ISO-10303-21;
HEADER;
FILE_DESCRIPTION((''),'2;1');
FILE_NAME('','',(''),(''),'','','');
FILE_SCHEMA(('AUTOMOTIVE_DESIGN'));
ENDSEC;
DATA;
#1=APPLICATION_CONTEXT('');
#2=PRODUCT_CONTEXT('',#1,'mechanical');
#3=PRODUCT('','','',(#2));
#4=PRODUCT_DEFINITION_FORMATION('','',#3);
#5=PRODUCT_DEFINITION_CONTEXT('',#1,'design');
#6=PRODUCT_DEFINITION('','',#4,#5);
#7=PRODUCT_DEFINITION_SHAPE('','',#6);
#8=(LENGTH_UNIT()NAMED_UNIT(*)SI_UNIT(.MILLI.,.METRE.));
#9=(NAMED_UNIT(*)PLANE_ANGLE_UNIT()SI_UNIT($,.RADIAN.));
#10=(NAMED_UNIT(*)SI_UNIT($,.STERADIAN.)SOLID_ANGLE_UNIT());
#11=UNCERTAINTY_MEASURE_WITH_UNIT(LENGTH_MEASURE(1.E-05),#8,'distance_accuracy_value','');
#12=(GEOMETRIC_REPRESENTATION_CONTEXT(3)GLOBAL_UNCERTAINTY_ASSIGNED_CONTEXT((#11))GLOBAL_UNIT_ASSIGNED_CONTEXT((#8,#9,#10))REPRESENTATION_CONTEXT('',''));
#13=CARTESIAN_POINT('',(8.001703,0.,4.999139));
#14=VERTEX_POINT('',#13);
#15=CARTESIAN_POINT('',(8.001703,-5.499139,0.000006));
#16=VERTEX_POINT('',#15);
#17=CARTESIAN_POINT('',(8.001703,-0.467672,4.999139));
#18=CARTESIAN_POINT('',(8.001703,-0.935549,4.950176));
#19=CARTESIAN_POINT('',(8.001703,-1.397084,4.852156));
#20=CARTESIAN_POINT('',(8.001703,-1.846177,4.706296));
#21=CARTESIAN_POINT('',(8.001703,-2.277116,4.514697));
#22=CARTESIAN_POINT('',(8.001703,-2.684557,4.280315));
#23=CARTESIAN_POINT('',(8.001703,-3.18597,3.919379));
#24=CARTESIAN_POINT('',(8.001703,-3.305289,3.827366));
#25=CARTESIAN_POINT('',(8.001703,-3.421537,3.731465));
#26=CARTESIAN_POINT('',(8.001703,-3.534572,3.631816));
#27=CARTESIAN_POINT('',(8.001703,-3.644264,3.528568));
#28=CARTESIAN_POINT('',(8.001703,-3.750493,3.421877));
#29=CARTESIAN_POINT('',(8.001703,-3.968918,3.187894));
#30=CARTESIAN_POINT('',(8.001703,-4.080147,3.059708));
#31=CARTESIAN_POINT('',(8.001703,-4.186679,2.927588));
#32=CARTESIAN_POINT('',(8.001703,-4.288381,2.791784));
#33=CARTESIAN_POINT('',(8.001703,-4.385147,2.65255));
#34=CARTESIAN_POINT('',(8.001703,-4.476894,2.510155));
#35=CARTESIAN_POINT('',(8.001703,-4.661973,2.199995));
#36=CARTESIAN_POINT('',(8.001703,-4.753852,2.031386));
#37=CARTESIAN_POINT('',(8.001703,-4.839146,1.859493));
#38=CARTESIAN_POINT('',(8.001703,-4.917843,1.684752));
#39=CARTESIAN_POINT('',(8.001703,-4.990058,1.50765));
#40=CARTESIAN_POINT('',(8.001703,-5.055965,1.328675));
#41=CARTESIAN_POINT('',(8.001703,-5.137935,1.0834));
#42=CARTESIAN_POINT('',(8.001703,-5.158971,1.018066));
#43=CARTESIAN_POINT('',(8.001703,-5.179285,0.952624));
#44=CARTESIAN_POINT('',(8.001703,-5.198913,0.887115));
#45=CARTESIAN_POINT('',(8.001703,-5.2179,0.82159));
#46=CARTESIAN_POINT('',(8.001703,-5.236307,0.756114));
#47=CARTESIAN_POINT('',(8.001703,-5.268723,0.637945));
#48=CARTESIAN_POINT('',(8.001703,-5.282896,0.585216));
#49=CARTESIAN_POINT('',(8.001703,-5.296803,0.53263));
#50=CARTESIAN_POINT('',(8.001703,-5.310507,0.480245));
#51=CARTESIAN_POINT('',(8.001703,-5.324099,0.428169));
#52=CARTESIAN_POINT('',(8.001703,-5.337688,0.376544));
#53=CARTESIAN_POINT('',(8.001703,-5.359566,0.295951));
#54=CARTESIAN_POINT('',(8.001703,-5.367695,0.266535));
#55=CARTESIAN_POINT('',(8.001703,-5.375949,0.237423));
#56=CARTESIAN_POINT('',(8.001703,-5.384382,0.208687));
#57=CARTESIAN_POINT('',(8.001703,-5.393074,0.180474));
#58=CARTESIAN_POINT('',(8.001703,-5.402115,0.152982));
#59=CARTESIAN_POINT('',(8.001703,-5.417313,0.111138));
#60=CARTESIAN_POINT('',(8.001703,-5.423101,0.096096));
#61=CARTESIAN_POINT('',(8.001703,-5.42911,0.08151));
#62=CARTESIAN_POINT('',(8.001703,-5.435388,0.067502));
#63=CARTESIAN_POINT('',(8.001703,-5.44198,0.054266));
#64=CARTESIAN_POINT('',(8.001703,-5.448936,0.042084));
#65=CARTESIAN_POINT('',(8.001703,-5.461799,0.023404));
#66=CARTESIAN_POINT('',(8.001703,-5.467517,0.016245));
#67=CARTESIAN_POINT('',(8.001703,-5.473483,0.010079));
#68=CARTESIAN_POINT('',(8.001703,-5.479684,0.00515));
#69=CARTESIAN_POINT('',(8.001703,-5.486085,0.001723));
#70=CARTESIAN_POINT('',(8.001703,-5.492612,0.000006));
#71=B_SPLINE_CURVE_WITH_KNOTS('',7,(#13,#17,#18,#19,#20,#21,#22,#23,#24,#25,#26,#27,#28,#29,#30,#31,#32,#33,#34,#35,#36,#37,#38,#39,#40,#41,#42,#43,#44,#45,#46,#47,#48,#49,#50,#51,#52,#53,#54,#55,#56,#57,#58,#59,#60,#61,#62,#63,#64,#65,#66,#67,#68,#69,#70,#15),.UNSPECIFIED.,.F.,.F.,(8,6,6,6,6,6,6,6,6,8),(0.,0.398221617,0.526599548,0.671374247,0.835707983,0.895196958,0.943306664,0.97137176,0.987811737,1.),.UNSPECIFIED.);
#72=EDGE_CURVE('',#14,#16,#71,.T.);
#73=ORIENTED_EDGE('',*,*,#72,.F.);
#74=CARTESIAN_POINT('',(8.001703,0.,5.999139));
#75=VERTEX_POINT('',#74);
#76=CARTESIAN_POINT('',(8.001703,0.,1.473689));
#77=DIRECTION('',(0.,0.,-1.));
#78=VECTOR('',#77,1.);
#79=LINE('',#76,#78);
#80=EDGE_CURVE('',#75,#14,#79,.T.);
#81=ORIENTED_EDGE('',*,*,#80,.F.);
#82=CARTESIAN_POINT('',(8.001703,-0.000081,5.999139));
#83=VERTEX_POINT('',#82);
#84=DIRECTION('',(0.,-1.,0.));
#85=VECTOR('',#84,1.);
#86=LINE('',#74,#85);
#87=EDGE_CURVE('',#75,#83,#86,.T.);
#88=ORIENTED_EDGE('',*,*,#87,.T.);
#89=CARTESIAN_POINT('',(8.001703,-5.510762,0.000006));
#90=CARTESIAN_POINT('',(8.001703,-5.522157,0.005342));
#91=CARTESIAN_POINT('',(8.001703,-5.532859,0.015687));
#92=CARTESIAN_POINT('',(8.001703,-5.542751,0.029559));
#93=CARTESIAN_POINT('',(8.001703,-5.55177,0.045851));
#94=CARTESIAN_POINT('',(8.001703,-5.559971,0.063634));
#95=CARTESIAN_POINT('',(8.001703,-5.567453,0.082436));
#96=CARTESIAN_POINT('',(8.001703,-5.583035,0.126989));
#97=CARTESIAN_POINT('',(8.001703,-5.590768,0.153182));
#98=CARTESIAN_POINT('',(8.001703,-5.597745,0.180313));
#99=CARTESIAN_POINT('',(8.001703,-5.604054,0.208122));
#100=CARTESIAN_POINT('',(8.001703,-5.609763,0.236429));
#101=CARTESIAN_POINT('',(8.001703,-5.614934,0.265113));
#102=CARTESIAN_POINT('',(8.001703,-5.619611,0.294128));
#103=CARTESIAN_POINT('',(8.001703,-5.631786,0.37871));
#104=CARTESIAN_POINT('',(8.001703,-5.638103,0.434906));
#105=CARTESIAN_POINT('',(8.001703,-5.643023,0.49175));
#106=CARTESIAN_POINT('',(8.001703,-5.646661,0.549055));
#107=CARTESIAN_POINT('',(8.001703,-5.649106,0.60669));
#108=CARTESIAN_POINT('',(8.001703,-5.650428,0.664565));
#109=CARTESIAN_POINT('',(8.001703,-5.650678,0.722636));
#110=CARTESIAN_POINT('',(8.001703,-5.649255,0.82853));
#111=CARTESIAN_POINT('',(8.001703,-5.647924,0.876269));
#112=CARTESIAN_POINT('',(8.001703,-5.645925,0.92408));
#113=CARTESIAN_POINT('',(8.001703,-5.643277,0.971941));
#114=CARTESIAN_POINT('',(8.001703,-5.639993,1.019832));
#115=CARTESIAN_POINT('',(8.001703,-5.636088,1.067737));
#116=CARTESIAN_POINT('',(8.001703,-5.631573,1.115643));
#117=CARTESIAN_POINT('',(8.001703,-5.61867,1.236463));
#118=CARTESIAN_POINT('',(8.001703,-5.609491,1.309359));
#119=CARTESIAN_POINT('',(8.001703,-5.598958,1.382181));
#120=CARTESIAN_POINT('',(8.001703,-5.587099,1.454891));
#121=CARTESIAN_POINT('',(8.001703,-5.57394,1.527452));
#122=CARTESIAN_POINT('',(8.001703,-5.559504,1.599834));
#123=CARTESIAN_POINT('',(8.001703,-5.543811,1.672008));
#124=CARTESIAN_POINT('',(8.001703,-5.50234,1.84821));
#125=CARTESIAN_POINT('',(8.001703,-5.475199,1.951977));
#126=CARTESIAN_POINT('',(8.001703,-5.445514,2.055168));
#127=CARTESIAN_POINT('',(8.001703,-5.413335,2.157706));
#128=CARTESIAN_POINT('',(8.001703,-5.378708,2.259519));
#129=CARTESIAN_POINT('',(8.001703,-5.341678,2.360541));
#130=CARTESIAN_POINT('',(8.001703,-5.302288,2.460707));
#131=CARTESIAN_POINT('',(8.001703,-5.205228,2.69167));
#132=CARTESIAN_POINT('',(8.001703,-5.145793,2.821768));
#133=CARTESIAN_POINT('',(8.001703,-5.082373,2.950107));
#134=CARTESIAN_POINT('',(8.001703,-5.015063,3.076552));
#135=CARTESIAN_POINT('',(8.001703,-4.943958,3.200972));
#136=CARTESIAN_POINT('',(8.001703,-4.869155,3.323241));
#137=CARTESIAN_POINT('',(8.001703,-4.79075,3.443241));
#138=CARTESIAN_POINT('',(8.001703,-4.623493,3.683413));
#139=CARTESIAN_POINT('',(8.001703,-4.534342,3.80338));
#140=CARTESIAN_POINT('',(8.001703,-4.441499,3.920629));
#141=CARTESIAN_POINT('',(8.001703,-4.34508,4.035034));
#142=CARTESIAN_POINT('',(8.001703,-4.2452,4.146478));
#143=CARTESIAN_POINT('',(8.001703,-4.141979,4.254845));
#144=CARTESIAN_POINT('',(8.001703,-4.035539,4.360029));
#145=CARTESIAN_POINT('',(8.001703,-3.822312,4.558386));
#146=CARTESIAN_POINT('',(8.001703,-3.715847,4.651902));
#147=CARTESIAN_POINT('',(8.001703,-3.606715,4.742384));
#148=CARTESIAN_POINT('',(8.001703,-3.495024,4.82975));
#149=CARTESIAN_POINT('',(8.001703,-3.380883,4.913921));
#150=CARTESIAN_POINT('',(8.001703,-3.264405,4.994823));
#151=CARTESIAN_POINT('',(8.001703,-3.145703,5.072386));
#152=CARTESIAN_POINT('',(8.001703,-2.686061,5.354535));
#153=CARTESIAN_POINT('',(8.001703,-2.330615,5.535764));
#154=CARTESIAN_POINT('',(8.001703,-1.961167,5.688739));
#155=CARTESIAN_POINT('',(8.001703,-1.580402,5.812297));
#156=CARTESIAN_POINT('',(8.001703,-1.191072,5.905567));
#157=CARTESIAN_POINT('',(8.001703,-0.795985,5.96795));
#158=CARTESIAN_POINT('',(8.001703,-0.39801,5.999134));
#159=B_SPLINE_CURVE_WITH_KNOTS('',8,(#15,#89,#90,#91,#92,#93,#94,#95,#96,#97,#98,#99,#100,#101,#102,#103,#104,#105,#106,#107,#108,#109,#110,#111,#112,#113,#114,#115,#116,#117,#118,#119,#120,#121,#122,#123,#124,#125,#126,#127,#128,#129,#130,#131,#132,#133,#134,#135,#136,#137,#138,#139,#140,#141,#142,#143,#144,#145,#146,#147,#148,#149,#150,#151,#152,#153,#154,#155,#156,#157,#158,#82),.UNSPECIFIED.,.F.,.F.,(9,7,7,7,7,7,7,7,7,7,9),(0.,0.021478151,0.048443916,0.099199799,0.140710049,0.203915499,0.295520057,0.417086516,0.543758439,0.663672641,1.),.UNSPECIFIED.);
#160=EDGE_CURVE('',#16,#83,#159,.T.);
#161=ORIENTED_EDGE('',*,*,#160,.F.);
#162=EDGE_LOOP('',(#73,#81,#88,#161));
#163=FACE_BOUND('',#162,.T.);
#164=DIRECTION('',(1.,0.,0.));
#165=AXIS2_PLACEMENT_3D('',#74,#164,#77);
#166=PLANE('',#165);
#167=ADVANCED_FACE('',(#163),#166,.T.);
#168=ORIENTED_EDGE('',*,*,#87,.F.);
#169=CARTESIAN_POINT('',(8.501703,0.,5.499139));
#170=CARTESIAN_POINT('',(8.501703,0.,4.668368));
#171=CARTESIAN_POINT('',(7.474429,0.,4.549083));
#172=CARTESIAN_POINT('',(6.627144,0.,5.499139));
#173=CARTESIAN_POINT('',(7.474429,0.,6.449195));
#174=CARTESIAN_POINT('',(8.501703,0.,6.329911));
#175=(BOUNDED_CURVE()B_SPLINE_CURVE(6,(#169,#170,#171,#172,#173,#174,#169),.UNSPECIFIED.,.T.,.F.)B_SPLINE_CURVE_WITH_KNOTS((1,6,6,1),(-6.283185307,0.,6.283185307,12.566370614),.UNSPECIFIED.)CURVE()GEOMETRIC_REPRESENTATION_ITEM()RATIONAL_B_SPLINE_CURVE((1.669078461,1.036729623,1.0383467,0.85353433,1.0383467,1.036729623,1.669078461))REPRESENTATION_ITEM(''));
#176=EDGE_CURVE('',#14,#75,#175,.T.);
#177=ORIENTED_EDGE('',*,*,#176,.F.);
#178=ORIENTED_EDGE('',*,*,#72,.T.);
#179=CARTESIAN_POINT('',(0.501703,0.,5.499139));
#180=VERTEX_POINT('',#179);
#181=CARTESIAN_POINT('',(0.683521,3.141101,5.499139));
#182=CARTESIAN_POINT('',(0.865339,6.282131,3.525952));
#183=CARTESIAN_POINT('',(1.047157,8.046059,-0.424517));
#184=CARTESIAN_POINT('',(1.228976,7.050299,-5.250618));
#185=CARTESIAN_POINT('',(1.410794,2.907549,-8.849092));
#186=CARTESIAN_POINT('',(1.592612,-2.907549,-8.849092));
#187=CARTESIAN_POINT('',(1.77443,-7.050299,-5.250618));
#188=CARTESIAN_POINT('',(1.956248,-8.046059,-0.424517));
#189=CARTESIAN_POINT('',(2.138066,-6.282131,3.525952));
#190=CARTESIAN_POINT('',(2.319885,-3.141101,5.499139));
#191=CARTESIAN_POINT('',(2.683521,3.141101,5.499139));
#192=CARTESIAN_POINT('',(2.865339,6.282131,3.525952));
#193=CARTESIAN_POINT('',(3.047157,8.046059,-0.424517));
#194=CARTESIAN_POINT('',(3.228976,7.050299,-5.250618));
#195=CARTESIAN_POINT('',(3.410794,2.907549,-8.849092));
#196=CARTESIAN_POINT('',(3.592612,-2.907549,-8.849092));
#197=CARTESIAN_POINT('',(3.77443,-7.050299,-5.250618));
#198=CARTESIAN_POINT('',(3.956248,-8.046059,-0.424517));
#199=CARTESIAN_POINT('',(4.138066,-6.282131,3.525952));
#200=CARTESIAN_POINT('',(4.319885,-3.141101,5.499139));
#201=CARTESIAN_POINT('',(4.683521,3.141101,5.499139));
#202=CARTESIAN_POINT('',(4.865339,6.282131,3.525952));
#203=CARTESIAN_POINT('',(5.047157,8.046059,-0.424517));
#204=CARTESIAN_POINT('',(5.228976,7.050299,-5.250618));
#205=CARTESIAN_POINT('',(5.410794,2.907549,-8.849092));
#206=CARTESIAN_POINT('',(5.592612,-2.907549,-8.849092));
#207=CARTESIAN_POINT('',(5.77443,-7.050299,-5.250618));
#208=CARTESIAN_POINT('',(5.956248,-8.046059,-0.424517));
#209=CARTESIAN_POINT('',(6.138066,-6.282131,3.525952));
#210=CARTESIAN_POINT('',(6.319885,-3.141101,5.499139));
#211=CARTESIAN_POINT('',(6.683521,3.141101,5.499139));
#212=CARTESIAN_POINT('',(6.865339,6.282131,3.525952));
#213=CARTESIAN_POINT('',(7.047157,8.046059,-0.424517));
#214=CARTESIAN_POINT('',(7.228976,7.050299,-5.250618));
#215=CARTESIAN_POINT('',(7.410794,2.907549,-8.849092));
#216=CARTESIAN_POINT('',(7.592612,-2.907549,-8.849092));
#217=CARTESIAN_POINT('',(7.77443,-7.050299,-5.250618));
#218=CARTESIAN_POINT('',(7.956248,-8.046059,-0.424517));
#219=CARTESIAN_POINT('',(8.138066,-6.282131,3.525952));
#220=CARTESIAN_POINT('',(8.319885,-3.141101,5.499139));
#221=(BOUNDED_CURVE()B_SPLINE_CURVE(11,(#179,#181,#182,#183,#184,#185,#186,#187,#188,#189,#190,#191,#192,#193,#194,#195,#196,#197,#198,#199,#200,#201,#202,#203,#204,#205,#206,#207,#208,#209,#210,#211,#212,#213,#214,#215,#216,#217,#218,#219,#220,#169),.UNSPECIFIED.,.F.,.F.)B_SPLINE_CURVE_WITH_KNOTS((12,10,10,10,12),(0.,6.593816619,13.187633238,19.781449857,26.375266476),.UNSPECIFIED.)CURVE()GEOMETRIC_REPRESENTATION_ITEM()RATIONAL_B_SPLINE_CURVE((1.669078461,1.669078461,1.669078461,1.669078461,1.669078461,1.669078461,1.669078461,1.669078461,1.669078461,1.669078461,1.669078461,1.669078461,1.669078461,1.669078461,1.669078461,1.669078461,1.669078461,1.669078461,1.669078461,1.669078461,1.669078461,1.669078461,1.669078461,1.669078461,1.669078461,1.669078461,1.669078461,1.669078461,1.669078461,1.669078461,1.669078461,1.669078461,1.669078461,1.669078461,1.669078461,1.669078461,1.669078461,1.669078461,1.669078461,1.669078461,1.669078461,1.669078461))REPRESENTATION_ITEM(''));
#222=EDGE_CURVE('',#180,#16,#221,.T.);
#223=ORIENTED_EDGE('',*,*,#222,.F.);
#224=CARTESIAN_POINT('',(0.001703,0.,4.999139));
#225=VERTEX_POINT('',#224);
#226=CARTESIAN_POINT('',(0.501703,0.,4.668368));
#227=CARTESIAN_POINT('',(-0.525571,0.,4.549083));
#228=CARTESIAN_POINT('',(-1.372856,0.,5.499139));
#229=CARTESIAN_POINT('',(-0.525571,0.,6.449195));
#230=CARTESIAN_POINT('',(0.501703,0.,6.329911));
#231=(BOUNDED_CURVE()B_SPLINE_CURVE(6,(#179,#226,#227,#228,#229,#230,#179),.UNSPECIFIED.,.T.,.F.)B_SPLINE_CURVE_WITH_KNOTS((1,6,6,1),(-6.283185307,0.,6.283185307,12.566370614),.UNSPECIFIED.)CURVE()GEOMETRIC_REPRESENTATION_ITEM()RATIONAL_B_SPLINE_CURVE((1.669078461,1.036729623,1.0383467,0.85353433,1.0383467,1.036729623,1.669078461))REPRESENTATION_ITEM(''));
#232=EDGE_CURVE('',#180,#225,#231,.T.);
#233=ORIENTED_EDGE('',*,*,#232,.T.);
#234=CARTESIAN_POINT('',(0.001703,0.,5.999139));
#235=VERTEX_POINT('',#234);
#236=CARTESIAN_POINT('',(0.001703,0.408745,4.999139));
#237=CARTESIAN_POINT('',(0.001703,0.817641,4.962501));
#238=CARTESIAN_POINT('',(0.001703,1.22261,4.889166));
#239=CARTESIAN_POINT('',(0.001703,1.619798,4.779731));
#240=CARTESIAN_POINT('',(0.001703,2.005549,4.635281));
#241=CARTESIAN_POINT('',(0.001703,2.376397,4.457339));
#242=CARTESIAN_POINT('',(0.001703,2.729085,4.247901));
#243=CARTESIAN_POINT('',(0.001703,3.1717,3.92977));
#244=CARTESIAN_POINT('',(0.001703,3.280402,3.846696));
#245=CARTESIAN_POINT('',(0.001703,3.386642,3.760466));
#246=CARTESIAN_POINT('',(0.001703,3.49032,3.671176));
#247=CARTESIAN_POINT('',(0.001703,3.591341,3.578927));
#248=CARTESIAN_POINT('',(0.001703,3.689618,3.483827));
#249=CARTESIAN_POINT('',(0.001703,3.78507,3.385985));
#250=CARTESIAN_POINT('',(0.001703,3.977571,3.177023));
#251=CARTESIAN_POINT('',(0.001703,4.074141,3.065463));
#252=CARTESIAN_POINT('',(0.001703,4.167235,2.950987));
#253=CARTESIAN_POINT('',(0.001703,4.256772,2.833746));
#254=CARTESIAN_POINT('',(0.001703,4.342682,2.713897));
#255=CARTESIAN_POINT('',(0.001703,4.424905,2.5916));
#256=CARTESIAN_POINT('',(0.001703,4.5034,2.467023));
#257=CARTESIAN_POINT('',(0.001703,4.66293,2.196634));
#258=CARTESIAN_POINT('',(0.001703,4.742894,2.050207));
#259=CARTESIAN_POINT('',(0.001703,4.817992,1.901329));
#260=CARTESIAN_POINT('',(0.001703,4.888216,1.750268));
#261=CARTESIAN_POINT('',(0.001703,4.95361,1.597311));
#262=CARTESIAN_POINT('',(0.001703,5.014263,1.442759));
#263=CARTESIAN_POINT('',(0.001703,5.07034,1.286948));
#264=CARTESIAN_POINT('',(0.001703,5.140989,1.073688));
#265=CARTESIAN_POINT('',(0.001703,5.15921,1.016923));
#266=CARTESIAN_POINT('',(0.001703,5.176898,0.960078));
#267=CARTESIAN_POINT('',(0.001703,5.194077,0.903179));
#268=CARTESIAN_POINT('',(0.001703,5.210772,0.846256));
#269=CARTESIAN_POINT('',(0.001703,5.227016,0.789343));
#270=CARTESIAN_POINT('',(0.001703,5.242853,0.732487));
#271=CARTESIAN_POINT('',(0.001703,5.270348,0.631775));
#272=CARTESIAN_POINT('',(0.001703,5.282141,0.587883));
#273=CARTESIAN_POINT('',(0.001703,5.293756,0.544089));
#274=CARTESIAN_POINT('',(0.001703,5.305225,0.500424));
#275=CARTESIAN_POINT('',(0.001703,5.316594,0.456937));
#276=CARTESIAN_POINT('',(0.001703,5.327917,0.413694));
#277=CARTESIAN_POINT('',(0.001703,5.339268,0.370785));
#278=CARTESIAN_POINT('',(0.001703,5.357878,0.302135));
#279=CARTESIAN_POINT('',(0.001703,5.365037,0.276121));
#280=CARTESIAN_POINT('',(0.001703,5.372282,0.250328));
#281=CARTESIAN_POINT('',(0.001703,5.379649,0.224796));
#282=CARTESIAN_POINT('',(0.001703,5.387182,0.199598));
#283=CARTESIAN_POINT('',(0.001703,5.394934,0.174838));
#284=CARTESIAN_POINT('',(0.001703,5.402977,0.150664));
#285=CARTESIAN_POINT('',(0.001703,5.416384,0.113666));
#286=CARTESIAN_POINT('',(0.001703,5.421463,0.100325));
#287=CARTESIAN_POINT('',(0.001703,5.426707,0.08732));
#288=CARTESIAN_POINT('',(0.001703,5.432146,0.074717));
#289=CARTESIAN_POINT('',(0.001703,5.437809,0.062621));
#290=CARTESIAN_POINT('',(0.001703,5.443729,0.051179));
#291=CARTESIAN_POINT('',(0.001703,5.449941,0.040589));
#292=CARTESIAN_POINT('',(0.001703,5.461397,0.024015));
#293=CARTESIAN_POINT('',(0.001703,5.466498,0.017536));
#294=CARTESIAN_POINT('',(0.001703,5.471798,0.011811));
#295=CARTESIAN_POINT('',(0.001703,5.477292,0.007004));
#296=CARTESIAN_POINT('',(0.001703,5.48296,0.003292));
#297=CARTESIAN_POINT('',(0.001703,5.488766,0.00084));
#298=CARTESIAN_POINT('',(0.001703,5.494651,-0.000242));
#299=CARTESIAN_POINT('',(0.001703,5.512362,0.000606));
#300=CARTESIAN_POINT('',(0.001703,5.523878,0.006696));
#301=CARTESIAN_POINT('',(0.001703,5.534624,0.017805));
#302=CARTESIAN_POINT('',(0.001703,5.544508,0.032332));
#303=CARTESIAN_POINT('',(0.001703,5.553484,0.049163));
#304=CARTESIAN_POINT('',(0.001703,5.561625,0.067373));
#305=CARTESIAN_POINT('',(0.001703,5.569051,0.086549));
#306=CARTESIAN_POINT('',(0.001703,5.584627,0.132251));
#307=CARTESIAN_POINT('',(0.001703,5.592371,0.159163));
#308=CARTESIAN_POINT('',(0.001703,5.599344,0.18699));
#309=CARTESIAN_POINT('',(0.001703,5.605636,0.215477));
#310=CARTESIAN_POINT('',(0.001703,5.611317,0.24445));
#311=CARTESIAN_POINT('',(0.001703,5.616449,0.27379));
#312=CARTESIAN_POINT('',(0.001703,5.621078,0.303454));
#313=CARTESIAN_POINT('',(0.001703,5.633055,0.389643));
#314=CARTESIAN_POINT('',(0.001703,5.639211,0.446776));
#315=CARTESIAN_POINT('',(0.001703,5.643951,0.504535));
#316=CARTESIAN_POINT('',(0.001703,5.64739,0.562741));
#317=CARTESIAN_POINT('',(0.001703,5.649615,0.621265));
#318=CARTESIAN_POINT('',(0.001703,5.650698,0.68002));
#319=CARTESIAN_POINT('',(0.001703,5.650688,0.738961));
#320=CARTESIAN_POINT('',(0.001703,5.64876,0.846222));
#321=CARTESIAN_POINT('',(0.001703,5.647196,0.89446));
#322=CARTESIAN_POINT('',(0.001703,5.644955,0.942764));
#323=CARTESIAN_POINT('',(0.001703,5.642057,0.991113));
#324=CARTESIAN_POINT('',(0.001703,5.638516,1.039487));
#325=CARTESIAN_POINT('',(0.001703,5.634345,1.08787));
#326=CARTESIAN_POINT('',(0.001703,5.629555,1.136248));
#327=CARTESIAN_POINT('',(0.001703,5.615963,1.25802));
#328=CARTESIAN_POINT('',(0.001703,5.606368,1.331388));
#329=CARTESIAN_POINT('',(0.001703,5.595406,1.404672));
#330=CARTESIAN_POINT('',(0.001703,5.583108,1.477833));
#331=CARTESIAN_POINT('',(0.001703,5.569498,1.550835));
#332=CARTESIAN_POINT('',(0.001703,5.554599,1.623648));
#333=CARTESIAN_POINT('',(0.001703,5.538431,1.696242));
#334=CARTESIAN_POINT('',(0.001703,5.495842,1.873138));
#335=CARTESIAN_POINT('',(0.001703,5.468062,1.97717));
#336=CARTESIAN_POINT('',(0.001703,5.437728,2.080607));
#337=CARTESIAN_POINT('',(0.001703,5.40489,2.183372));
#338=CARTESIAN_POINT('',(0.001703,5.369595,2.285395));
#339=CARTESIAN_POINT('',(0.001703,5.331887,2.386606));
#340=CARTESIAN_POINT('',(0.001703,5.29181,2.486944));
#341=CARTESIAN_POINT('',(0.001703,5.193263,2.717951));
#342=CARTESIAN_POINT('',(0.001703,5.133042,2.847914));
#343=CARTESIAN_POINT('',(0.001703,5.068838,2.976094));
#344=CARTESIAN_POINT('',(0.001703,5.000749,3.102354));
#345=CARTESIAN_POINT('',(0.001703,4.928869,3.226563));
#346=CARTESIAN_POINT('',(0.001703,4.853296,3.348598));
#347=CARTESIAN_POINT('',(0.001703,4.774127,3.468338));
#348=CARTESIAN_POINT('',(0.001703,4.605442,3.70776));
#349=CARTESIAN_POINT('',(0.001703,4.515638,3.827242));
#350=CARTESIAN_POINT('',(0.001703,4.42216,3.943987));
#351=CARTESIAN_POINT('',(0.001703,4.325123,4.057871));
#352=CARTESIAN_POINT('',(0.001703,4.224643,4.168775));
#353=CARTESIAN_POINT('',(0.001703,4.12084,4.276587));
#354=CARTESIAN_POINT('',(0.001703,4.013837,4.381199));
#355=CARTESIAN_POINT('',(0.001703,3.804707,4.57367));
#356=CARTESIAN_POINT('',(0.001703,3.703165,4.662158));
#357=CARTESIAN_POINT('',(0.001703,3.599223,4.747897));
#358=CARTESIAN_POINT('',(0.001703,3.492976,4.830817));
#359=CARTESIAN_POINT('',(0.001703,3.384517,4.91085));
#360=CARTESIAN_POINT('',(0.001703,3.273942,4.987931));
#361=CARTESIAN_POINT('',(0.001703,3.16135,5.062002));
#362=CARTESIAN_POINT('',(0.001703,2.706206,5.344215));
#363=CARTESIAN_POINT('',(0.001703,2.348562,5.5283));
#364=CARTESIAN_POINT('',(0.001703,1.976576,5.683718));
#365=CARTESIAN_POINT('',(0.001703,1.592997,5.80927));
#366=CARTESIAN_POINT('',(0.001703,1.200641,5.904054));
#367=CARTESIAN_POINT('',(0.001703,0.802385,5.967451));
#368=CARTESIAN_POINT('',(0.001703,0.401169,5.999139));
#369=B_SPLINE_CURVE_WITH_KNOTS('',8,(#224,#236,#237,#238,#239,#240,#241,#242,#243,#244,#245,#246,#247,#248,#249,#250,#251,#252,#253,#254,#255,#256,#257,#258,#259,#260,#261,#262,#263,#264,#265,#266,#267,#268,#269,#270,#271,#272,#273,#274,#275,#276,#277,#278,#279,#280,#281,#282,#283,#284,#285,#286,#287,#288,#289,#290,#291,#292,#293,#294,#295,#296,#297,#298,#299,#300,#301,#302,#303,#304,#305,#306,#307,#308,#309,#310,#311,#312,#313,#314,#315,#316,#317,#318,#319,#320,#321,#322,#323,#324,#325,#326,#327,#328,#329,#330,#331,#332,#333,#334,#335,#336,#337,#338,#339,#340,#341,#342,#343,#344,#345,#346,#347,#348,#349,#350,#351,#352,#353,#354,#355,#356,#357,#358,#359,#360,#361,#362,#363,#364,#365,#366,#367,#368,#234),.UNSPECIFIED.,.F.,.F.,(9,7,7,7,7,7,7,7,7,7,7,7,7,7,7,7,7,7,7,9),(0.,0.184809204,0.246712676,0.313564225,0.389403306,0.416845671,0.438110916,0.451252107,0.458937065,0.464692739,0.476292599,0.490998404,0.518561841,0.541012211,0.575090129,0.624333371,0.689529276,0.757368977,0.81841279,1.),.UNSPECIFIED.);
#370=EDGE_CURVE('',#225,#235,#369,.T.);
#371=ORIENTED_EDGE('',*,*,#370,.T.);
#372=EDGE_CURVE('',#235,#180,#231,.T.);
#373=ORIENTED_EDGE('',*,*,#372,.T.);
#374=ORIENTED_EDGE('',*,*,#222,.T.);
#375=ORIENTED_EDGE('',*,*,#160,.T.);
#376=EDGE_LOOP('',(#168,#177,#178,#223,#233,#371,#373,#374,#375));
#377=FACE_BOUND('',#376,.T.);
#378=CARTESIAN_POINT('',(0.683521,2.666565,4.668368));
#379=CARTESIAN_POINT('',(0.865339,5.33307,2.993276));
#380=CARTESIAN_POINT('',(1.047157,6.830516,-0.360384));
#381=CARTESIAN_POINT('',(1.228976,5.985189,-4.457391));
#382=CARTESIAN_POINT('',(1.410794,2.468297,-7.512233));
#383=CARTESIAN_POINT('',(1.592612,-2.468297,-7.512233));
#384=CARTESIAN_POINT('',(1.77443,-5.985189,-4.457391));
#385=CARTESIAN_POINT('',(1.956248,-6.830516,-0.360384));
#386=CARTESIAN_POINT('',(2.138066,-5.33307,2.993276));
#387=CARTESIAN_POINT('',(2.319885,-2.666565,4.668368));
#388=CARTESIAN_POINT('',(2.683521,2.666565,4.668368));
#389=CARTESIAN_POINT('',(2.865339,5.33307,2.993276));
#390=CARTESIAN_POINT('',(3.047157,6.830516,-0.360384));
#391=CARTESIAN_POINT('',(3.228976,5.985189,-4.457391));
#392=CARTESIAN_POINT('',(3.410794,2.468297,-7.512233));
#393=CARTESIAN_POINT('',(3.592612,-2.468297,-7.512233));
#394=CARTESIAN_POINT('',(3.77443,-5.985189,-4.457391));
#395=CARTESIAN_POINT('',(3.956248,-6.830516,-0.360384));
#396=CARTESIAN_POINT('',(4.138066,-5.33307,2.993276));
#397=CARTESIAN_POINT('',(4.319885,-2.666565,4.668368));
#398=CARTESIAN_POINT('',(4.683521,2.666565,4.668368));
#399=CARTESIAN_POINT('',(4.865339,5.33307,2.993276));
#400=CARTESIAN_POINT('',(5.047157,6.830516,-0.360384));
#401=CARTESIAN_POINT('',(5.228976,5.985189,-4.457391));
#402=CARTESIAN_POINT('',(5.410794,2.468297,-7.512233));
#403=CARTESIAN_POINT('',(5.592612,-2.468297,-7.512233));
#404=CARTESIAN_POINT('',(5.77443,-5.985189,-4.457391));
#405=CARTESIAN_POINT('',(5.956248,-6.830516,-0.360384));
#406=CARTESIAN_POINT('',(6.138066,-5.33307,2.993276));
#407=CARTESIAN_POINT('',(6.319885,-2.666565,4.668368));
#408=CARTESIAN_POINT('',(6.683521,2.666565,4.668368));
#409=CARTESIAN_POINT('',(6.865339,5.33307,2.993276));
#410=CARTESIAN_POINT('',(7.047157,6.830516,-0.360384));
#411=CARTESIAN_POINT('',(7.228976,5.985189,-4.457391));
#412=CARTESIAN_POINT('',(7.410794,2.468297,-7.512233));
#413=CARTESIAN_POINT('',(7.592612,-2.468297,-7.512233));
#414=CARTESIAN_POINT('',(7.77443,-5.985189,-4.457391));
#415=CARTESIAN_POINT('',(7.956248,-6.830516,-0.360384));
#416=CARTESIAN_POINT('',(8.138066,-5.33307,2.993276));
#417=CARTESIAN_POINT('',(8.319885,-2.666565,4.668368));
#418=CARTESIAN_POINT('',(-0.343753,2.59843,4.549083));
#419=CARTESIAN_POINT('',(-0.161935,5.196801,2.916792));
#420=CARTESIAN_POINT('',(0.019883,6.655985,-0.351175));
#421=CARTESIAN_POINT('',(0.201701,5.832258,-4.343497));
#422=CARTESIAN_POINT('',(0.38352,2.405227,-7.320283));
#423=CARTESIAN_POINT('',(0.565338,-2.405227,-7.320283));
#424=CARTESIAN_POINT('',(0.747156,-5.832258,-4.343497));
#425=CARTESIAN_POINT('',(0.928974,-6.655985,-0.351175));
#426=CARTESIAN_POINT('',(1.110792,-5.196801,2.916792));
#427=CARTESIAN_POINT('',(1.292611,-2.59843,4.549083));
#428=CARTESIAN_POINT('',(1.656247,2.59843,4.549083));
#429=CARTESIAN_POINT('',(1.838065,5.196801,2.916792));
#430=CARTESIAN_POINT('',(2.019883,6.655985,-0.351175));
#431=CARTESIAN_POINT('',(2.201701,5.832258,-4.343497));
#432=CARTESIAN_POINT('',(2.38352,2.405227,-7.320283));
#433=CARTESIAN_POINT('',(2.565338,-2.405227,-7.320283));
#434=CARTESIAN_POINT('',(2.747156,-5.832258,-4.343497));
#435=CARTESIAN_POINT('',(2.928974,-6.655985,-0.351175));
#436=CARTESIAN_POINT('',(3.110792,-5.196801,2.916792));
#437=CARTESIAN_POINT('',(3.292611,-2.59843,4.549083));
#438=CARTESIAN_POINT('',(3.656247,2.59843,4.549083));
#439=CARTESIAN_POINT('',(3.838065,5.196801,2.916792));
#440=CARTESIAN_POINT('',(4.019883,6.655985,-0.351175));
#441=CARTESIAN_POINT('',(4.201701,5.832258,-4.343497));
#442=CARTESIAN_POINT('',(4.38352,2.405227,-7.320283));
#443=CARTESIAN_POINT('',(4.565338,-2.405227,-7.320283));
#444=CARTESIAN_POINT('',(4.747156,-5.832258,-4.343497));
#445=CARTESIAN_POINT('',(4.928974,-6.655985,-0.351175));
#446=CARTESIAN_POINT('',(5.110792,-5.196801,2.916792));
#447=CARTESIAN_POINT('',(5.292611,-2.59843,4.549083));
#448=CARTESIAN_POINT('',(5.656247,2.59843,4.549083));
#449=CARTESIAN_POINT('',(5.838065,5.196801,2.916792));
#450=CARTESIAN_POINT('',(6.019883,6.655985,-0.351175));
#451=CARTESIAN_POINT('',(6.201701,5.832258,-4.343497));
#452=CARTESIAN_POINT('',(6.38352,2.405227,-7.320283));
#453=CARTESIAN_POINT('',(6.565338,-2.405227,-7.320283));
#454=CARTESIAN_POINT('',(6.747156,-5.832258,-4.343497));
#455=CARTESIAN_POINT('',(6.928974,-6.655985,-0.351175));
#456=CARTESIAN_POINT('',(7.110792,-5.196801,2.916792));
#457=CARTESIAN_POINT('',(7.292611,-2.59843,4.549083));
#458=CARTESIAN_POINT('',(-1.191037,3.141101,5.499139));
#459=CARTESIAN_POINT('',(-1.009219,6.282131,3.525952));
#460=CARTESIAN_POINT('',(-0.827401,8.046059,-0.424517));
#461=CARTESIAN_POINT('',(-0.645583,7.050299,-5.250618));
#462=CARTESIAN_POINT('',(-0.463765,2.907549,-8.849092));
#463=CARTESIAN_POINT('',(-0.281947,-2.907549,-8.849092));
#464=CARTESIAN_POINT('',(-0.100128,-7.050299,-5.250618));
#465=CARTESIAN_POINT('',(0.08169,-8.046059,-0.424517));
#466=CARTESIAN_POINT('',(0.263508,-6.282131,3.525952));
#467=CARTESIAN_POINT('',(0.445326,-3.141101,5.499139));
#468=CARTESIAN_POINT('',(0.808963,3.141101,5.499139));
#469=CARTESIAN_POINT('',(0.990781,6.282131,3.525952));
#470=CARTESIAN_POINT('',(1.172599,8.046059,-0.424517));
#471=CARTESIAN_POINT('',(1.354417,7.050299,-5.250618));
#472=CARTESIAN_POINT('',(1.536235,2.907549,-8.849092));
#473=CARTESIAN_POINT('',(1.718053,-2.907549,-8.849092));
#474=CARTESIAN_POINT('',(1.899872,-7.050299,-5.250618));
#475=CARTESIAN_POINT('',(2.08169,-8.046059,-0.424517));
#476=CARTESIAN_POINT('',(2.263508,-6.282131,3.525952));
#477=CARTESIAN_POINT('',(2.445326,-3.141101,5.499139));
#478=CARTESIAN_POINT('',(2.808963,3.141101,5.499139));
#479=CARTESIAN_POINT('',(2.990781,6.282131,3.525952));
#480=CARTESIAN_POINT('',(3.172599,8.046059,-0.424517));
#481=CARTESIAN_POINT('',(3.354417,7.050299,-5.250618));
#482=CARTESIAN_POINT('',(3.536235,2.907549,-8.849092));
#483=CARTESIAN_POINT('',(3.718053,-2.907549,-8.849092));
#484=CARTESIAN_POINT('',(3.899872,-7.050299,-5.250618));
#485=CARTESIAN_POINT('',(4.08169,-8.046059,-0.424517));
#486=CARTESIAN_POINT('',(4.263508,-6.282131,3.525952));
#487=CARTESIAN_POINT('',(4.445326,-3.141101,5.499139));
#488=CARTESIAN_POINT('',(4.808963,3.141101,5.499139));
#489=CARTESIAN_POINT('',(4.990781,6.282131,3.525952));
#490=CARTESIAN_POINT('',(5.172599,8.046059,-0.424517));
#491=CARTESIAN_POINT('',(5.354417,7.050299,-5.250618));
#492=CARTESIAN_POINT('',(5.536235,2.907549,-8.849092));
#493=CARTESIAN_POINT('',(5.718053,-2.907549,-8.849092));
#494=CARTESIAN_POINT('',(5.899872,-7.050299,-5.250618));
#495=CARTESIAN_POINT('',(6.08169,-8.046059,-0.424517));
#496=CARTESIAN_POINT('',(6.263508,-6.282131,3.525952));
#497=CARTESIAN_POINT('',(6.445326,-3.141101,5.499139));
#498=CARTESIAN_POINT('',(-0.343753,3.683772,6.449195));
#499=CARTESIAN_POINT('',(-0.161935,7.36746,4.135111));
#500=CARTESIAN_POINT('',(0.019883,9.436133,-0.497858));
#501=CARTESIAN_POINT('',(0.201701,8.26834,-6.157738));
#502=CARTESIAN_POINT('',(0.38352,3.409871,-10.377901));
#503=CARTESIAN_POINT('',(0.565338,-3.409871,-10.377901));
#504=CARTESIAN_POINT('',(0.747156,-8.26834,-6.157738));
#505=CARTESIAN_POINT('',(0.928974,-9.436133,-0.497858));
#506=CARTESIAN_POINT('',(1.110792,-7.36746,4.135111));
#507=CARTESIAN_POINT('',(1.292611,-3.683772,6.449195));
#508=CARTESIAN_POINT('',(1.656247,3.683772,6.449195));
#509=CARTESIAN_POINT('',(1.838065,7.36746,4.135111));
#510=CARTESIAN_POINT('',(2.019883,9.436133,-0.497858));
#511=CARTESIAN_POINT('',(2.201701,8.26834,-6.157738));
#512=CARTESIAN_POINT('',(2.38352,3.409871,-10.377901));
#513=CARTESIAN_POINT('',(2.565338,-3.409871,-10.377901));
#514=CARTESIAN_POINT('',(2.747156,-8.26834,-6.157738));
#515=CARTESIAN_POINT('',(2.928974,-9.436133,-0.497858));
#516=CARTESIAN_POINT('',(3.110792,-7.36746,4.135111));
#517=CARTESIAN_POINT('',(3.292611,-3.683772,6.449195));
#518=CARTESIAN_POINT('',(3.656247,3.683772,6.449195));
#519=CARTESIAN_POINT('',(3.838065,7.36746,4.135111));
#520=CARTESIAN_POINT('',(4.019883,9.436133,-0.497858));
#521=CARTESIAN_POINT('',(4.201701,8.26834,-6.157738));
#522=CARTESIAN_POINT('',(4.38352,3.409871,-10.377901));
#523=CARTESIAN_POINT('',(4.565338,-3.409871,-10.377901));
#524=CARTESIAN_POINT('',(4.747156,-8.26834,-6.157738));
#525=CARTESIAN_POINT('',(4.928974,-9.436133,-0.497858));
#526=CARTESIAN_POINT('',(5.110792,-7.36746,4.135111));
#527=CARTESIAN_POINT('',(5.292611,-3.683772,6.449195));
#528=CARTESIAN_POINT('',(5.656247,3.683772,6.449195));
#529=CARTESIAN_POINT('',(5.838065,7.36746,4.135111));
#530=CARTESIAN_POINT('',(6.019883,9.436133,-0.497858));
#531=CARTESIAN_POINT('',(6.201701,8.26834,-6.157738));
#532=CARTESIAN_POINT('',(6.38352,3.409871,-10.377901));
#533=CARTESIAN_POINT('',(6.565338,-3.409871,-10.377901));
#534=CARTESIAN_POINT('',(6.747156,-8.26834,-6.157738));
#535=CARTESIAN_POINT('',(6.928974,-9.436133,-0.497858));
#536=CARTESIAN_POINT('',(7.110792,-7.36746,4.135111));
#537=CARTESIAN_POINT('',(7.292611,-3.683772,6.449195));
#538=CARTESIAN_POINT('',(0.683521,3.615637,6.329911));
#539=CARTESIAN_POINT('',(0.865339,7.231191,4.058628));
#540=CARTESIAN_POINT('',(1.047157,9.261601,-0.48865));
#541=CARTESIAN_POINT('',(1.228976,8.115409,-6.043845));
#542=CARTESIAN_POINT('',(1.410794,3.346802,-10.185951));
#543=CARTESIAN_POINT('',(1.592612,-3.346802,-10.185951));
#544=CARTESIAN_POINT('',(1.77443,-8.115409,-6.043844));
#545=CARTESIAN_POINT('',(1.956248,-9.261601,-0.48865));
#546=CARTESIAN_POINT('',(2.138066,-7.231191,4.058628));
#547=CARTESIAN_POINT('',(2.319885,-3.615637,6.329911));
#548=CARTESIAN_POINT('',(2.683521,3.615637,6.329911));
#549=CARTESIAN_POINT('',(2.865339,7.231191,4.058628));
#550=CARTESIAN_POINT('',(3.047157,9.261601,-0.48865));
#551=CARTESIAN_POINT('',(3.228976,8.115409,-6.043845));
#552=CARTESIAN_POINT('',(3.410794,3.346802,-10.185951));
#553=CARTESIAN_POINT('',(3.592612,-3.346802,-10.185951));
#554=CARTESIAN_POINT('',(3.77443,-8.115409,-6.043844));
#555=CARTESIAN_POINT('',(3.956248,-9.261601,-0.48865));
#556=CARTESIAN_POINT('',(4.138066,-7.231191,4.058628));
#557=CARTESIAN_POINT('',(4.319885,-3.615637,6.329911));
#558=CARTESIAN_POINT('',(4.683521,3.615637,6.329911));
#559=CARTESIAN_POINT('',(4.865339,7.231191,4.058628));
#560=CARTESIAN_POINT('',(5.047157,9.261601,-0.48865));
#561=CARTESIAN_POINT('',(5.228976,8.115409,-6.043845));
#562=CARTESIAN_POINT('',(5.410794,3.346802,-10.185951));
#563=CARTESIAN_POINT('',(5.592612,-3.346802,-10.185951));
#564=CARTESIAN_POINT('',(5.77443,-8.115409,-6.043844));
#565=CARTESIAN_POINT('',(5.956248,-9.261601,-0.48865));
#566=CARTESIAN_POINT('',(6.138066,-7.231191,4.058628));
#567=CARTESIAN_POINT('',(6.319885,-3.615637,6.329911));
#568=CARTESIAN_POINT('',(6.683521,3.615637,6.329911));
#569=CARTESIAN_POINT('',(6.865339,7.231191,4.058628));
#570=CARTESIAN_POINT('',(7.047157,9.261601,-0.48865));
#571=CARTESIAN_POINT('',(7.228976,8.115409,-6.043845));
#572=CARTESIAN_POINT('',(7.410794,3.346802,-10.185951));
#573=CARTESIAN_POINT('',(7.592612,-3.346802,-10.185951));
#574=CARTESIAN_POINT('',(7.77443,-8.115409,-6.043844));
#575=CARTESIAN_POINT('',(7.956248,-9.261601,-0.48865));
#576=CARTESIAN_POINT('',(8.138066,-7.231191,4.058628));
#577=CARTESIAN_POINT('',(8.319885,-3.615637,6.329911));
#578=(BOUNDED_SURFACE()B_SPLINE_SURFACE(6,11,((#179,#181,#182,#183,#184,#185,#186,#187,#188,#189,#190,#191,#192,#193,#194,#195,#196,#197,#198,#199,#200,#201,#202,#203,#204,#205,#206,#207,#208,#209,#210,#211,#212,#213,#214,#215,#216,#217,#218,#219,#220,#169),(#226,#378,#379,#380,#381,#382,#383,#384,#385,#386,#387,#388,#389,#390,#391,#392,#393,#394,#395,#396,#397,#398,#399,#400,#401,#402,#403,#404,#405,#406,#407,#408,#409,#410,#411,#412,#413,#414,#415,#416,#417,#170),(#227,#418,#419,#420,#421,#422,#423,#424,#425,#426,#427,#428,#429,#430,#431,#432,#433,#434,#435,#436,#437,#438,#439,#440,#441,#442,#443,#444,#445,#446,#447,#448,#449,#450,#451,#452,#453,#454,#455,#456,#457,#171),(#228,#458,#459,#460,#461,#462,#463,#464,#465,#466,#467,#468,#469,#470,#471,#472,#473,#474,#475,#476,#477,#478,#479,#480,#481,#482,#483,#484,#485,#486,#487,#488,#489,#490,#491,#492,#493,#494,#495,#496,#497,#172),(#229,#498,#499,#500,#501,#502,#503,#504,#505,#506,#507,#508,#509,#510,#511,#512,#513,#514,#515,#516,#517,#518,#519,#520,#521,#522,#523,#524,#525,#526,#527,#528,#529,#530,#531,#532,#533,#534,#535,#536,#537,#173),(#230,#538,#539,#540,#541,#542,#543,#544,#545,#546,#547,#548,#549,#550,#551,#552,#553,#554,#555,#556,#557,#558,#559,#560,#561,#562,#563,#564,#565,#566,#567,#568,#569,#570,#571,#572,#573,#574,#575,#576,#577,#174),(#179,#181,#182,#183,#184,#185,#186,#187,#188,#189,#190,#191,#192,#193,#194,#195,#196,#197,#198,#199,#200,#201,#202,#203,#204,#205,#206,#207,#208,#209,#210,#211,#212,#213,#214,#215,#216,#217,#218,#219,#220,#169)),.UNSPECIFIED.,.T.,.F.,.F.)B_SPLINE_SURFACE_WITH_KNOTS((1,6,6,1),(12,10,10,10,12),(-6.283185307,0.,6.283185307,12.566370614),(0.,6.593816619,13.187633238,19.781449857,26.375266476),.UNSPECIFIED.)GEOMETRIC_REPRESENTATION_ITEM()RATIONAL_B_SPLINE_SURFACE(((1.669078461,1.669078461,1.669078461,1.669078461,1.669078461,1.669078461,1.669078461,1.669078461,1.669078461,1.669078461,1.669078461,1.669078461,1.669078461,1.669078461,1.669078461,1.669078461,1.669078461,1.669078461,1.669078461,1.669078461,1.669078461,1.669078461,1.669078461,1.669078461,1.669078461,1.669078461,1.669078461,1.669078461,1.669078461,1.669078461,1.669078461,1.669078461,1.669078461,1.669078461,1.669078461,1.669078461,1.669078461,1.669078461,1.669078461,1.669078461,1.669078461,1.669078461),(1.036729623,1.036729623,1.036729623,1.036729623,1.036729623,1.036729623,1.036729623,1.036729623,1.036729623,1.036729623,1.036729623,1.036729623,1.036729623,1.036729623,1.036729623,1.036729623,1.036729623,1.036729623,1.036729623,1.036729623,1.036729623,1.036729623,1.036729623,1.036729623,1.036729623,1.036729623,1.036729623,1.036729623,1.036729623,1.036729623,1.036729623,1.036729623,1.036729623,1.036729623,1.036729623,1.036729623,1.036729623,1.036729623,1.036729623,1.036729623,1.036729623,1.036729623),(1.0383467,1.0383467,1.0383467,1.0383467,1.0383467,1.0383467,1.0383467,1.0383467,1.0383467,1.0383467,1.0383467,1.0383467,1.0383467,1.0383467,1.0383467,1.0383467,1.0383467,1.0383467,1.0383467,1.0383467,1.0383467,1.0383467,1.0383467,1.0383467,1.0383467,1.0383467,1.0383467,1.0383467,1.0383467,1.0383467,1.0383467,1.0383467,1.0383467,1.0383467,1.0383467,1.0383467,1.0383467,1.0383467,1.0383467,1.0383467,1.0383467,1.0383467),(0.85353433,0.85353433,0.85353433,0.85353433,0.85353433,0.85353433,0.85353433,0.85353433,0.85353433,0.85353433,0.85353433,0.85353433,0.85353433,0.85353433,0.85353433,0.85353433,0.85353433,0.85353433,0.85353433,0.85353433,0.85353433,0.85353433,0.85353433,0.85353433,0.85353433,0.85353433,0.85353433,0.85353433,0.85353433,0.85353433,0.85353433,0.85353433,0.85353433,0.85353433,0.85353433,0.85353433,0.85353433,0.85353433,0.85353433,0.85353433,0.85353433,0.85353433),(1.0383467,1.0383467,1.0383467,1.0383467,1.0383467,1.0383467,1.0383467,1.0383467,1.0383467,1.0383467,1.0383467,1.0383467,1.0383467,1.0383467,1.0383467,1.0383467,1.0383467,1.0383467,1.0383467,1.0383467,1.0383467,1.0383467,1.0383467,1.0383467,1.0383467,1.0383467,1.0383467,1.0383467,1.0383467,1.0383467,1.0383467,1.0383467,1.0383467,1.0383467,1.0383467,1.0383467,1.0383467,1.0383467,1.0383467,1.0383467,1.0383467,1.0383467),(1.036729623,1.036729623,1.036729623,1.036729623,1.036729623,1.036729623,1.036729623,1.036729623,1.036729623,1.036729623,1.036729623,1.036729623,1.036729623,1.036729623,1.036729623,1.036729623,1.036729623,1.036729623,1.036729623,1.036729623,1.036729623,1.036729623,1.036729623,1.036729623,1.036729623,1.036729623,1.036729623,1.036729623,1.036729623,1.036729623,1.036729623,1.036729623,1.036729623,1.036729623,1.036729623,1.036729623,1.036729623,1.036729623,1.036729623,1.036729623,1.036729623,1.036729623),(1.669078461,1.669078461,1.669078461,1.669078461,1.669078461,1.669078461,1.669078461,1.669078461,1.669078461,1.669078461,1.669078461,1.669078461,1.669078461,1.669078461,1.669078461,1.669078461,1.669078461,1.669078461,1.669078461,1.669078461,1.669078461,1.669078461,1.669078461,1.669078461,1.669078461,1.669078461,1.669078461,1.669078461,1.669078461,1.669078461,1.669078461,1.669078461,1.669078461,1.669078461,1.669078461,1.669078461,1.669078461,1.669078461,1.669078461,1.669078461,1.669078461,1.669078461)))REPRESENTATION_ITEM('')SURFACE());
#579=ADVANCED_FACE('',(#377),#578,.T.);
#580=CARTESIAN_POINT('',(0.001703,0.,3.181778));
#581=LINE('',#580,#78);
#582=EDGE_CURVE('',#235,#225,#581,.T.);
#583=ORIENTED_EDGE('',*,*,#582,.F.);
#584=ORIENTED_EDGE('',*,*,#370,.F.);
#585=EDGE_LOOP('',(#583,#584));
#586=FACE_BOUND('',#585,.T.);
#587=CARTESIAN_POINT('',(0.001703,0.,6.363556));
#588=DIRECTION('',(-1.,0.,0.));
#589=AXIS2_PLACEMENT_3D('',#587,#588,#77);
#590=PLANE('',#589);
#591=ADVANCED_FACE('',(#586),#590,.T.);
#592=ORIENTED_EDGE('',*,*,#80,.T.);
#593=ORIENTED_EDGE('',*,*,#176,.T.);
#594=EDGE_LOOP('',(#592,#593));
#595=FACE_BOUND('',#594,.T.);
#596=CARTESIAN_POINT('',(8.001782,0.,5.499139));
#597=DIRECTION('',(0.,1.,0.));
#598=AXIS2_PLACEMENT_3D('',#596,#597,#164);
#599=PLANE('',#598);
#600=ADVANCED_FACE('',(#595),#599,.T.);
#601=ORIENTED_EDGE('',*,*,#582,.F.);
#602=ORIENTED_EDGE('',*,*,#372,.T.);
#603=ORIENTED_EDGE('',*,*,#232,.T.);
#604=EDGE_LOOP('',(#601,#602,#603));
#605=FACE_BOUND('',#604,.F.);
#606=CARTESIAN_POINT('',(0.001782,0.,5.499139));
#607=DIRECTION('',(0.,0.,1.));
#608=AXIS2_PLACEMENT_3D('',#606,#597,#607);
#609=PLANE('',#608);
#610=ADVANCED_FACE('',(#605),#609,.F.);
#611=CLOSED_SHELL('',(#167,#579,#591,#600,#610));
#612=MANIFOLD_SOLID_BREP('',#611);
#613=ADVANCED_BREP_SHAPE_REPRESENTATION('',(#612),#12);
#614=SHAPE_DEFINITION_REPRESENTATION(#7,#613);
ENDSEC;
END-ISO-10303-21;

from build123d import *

# Parameters (mm, degrees)
SWEEP_1_PITCH       = 2
SWEEP_1_HEIGHT      = 8
SWEEP_1_RADIUS      = 5.5
SKETCH_3_R          = 0.5
SKETCH_6_W          = 2.252769002
SKETCH_6_H          = 6.363555562
CUT_EXTRUDE_2_DEPTH = 10
SKETCH_8_W          = 2.058208477
SKETCH_8_H          = 9.050899617
CUT_EXTRUDE_3_DEPTH = 10


with BuildPart() as part:
    # По траектории1: sweep along a helix
    with BuildLine() as sweep_1_path:
        Helix(SWEEP_1_PITCH, SWEEP_1_HEIGHT, SWEEP_1_RADIUS, center=(0, 0, 0), direction=(1, 0, 0), lefthand=True)
    # Эскиз3 → По траектории1 (sweep)
    with BuildSketch(Plane(origin=(0, 0, 0), x_dir=(1, 0, 0), z_dir=(0, 1, 0))):
        with Locations((8.001702786, -5.499139209)):
            Circle(SKETCH_3_R)
    sweep(path=sweep_1_path.line, is_frenet=True)

    # Эскиз6 → Вытянуть2 (cut)
    with BuildSketch(Plane(origin=(0, 0, 0), x_dir=(1, 0, 0), z_dir=(0, 1, 0))):
        with Locations((-1.124681715, -3.181777781)):
            Rectangle(SKETCH_6_W, SKETCH_6_H)
    extrude(amount=CUT_EXTRUDE_2_DEPTH, mode=Mode.SUBTRACT)

    # Эскиз8 → Вытянуть3 (cut)
    with BuildSketch(Plane(origin=(0, 0, 0), x_dir=(1, 0, 0), z_dir=(0, 1, 0))):
        with Locations((9.030807024, -1.4736894)):
            Rectangle(SKETCH_8_W, SKETCH_8_H)
    extrude(amount=-CUT_EXTRUDE_3_DEPTH, mode=Mode.SUBTRACT)


solid = part.part
